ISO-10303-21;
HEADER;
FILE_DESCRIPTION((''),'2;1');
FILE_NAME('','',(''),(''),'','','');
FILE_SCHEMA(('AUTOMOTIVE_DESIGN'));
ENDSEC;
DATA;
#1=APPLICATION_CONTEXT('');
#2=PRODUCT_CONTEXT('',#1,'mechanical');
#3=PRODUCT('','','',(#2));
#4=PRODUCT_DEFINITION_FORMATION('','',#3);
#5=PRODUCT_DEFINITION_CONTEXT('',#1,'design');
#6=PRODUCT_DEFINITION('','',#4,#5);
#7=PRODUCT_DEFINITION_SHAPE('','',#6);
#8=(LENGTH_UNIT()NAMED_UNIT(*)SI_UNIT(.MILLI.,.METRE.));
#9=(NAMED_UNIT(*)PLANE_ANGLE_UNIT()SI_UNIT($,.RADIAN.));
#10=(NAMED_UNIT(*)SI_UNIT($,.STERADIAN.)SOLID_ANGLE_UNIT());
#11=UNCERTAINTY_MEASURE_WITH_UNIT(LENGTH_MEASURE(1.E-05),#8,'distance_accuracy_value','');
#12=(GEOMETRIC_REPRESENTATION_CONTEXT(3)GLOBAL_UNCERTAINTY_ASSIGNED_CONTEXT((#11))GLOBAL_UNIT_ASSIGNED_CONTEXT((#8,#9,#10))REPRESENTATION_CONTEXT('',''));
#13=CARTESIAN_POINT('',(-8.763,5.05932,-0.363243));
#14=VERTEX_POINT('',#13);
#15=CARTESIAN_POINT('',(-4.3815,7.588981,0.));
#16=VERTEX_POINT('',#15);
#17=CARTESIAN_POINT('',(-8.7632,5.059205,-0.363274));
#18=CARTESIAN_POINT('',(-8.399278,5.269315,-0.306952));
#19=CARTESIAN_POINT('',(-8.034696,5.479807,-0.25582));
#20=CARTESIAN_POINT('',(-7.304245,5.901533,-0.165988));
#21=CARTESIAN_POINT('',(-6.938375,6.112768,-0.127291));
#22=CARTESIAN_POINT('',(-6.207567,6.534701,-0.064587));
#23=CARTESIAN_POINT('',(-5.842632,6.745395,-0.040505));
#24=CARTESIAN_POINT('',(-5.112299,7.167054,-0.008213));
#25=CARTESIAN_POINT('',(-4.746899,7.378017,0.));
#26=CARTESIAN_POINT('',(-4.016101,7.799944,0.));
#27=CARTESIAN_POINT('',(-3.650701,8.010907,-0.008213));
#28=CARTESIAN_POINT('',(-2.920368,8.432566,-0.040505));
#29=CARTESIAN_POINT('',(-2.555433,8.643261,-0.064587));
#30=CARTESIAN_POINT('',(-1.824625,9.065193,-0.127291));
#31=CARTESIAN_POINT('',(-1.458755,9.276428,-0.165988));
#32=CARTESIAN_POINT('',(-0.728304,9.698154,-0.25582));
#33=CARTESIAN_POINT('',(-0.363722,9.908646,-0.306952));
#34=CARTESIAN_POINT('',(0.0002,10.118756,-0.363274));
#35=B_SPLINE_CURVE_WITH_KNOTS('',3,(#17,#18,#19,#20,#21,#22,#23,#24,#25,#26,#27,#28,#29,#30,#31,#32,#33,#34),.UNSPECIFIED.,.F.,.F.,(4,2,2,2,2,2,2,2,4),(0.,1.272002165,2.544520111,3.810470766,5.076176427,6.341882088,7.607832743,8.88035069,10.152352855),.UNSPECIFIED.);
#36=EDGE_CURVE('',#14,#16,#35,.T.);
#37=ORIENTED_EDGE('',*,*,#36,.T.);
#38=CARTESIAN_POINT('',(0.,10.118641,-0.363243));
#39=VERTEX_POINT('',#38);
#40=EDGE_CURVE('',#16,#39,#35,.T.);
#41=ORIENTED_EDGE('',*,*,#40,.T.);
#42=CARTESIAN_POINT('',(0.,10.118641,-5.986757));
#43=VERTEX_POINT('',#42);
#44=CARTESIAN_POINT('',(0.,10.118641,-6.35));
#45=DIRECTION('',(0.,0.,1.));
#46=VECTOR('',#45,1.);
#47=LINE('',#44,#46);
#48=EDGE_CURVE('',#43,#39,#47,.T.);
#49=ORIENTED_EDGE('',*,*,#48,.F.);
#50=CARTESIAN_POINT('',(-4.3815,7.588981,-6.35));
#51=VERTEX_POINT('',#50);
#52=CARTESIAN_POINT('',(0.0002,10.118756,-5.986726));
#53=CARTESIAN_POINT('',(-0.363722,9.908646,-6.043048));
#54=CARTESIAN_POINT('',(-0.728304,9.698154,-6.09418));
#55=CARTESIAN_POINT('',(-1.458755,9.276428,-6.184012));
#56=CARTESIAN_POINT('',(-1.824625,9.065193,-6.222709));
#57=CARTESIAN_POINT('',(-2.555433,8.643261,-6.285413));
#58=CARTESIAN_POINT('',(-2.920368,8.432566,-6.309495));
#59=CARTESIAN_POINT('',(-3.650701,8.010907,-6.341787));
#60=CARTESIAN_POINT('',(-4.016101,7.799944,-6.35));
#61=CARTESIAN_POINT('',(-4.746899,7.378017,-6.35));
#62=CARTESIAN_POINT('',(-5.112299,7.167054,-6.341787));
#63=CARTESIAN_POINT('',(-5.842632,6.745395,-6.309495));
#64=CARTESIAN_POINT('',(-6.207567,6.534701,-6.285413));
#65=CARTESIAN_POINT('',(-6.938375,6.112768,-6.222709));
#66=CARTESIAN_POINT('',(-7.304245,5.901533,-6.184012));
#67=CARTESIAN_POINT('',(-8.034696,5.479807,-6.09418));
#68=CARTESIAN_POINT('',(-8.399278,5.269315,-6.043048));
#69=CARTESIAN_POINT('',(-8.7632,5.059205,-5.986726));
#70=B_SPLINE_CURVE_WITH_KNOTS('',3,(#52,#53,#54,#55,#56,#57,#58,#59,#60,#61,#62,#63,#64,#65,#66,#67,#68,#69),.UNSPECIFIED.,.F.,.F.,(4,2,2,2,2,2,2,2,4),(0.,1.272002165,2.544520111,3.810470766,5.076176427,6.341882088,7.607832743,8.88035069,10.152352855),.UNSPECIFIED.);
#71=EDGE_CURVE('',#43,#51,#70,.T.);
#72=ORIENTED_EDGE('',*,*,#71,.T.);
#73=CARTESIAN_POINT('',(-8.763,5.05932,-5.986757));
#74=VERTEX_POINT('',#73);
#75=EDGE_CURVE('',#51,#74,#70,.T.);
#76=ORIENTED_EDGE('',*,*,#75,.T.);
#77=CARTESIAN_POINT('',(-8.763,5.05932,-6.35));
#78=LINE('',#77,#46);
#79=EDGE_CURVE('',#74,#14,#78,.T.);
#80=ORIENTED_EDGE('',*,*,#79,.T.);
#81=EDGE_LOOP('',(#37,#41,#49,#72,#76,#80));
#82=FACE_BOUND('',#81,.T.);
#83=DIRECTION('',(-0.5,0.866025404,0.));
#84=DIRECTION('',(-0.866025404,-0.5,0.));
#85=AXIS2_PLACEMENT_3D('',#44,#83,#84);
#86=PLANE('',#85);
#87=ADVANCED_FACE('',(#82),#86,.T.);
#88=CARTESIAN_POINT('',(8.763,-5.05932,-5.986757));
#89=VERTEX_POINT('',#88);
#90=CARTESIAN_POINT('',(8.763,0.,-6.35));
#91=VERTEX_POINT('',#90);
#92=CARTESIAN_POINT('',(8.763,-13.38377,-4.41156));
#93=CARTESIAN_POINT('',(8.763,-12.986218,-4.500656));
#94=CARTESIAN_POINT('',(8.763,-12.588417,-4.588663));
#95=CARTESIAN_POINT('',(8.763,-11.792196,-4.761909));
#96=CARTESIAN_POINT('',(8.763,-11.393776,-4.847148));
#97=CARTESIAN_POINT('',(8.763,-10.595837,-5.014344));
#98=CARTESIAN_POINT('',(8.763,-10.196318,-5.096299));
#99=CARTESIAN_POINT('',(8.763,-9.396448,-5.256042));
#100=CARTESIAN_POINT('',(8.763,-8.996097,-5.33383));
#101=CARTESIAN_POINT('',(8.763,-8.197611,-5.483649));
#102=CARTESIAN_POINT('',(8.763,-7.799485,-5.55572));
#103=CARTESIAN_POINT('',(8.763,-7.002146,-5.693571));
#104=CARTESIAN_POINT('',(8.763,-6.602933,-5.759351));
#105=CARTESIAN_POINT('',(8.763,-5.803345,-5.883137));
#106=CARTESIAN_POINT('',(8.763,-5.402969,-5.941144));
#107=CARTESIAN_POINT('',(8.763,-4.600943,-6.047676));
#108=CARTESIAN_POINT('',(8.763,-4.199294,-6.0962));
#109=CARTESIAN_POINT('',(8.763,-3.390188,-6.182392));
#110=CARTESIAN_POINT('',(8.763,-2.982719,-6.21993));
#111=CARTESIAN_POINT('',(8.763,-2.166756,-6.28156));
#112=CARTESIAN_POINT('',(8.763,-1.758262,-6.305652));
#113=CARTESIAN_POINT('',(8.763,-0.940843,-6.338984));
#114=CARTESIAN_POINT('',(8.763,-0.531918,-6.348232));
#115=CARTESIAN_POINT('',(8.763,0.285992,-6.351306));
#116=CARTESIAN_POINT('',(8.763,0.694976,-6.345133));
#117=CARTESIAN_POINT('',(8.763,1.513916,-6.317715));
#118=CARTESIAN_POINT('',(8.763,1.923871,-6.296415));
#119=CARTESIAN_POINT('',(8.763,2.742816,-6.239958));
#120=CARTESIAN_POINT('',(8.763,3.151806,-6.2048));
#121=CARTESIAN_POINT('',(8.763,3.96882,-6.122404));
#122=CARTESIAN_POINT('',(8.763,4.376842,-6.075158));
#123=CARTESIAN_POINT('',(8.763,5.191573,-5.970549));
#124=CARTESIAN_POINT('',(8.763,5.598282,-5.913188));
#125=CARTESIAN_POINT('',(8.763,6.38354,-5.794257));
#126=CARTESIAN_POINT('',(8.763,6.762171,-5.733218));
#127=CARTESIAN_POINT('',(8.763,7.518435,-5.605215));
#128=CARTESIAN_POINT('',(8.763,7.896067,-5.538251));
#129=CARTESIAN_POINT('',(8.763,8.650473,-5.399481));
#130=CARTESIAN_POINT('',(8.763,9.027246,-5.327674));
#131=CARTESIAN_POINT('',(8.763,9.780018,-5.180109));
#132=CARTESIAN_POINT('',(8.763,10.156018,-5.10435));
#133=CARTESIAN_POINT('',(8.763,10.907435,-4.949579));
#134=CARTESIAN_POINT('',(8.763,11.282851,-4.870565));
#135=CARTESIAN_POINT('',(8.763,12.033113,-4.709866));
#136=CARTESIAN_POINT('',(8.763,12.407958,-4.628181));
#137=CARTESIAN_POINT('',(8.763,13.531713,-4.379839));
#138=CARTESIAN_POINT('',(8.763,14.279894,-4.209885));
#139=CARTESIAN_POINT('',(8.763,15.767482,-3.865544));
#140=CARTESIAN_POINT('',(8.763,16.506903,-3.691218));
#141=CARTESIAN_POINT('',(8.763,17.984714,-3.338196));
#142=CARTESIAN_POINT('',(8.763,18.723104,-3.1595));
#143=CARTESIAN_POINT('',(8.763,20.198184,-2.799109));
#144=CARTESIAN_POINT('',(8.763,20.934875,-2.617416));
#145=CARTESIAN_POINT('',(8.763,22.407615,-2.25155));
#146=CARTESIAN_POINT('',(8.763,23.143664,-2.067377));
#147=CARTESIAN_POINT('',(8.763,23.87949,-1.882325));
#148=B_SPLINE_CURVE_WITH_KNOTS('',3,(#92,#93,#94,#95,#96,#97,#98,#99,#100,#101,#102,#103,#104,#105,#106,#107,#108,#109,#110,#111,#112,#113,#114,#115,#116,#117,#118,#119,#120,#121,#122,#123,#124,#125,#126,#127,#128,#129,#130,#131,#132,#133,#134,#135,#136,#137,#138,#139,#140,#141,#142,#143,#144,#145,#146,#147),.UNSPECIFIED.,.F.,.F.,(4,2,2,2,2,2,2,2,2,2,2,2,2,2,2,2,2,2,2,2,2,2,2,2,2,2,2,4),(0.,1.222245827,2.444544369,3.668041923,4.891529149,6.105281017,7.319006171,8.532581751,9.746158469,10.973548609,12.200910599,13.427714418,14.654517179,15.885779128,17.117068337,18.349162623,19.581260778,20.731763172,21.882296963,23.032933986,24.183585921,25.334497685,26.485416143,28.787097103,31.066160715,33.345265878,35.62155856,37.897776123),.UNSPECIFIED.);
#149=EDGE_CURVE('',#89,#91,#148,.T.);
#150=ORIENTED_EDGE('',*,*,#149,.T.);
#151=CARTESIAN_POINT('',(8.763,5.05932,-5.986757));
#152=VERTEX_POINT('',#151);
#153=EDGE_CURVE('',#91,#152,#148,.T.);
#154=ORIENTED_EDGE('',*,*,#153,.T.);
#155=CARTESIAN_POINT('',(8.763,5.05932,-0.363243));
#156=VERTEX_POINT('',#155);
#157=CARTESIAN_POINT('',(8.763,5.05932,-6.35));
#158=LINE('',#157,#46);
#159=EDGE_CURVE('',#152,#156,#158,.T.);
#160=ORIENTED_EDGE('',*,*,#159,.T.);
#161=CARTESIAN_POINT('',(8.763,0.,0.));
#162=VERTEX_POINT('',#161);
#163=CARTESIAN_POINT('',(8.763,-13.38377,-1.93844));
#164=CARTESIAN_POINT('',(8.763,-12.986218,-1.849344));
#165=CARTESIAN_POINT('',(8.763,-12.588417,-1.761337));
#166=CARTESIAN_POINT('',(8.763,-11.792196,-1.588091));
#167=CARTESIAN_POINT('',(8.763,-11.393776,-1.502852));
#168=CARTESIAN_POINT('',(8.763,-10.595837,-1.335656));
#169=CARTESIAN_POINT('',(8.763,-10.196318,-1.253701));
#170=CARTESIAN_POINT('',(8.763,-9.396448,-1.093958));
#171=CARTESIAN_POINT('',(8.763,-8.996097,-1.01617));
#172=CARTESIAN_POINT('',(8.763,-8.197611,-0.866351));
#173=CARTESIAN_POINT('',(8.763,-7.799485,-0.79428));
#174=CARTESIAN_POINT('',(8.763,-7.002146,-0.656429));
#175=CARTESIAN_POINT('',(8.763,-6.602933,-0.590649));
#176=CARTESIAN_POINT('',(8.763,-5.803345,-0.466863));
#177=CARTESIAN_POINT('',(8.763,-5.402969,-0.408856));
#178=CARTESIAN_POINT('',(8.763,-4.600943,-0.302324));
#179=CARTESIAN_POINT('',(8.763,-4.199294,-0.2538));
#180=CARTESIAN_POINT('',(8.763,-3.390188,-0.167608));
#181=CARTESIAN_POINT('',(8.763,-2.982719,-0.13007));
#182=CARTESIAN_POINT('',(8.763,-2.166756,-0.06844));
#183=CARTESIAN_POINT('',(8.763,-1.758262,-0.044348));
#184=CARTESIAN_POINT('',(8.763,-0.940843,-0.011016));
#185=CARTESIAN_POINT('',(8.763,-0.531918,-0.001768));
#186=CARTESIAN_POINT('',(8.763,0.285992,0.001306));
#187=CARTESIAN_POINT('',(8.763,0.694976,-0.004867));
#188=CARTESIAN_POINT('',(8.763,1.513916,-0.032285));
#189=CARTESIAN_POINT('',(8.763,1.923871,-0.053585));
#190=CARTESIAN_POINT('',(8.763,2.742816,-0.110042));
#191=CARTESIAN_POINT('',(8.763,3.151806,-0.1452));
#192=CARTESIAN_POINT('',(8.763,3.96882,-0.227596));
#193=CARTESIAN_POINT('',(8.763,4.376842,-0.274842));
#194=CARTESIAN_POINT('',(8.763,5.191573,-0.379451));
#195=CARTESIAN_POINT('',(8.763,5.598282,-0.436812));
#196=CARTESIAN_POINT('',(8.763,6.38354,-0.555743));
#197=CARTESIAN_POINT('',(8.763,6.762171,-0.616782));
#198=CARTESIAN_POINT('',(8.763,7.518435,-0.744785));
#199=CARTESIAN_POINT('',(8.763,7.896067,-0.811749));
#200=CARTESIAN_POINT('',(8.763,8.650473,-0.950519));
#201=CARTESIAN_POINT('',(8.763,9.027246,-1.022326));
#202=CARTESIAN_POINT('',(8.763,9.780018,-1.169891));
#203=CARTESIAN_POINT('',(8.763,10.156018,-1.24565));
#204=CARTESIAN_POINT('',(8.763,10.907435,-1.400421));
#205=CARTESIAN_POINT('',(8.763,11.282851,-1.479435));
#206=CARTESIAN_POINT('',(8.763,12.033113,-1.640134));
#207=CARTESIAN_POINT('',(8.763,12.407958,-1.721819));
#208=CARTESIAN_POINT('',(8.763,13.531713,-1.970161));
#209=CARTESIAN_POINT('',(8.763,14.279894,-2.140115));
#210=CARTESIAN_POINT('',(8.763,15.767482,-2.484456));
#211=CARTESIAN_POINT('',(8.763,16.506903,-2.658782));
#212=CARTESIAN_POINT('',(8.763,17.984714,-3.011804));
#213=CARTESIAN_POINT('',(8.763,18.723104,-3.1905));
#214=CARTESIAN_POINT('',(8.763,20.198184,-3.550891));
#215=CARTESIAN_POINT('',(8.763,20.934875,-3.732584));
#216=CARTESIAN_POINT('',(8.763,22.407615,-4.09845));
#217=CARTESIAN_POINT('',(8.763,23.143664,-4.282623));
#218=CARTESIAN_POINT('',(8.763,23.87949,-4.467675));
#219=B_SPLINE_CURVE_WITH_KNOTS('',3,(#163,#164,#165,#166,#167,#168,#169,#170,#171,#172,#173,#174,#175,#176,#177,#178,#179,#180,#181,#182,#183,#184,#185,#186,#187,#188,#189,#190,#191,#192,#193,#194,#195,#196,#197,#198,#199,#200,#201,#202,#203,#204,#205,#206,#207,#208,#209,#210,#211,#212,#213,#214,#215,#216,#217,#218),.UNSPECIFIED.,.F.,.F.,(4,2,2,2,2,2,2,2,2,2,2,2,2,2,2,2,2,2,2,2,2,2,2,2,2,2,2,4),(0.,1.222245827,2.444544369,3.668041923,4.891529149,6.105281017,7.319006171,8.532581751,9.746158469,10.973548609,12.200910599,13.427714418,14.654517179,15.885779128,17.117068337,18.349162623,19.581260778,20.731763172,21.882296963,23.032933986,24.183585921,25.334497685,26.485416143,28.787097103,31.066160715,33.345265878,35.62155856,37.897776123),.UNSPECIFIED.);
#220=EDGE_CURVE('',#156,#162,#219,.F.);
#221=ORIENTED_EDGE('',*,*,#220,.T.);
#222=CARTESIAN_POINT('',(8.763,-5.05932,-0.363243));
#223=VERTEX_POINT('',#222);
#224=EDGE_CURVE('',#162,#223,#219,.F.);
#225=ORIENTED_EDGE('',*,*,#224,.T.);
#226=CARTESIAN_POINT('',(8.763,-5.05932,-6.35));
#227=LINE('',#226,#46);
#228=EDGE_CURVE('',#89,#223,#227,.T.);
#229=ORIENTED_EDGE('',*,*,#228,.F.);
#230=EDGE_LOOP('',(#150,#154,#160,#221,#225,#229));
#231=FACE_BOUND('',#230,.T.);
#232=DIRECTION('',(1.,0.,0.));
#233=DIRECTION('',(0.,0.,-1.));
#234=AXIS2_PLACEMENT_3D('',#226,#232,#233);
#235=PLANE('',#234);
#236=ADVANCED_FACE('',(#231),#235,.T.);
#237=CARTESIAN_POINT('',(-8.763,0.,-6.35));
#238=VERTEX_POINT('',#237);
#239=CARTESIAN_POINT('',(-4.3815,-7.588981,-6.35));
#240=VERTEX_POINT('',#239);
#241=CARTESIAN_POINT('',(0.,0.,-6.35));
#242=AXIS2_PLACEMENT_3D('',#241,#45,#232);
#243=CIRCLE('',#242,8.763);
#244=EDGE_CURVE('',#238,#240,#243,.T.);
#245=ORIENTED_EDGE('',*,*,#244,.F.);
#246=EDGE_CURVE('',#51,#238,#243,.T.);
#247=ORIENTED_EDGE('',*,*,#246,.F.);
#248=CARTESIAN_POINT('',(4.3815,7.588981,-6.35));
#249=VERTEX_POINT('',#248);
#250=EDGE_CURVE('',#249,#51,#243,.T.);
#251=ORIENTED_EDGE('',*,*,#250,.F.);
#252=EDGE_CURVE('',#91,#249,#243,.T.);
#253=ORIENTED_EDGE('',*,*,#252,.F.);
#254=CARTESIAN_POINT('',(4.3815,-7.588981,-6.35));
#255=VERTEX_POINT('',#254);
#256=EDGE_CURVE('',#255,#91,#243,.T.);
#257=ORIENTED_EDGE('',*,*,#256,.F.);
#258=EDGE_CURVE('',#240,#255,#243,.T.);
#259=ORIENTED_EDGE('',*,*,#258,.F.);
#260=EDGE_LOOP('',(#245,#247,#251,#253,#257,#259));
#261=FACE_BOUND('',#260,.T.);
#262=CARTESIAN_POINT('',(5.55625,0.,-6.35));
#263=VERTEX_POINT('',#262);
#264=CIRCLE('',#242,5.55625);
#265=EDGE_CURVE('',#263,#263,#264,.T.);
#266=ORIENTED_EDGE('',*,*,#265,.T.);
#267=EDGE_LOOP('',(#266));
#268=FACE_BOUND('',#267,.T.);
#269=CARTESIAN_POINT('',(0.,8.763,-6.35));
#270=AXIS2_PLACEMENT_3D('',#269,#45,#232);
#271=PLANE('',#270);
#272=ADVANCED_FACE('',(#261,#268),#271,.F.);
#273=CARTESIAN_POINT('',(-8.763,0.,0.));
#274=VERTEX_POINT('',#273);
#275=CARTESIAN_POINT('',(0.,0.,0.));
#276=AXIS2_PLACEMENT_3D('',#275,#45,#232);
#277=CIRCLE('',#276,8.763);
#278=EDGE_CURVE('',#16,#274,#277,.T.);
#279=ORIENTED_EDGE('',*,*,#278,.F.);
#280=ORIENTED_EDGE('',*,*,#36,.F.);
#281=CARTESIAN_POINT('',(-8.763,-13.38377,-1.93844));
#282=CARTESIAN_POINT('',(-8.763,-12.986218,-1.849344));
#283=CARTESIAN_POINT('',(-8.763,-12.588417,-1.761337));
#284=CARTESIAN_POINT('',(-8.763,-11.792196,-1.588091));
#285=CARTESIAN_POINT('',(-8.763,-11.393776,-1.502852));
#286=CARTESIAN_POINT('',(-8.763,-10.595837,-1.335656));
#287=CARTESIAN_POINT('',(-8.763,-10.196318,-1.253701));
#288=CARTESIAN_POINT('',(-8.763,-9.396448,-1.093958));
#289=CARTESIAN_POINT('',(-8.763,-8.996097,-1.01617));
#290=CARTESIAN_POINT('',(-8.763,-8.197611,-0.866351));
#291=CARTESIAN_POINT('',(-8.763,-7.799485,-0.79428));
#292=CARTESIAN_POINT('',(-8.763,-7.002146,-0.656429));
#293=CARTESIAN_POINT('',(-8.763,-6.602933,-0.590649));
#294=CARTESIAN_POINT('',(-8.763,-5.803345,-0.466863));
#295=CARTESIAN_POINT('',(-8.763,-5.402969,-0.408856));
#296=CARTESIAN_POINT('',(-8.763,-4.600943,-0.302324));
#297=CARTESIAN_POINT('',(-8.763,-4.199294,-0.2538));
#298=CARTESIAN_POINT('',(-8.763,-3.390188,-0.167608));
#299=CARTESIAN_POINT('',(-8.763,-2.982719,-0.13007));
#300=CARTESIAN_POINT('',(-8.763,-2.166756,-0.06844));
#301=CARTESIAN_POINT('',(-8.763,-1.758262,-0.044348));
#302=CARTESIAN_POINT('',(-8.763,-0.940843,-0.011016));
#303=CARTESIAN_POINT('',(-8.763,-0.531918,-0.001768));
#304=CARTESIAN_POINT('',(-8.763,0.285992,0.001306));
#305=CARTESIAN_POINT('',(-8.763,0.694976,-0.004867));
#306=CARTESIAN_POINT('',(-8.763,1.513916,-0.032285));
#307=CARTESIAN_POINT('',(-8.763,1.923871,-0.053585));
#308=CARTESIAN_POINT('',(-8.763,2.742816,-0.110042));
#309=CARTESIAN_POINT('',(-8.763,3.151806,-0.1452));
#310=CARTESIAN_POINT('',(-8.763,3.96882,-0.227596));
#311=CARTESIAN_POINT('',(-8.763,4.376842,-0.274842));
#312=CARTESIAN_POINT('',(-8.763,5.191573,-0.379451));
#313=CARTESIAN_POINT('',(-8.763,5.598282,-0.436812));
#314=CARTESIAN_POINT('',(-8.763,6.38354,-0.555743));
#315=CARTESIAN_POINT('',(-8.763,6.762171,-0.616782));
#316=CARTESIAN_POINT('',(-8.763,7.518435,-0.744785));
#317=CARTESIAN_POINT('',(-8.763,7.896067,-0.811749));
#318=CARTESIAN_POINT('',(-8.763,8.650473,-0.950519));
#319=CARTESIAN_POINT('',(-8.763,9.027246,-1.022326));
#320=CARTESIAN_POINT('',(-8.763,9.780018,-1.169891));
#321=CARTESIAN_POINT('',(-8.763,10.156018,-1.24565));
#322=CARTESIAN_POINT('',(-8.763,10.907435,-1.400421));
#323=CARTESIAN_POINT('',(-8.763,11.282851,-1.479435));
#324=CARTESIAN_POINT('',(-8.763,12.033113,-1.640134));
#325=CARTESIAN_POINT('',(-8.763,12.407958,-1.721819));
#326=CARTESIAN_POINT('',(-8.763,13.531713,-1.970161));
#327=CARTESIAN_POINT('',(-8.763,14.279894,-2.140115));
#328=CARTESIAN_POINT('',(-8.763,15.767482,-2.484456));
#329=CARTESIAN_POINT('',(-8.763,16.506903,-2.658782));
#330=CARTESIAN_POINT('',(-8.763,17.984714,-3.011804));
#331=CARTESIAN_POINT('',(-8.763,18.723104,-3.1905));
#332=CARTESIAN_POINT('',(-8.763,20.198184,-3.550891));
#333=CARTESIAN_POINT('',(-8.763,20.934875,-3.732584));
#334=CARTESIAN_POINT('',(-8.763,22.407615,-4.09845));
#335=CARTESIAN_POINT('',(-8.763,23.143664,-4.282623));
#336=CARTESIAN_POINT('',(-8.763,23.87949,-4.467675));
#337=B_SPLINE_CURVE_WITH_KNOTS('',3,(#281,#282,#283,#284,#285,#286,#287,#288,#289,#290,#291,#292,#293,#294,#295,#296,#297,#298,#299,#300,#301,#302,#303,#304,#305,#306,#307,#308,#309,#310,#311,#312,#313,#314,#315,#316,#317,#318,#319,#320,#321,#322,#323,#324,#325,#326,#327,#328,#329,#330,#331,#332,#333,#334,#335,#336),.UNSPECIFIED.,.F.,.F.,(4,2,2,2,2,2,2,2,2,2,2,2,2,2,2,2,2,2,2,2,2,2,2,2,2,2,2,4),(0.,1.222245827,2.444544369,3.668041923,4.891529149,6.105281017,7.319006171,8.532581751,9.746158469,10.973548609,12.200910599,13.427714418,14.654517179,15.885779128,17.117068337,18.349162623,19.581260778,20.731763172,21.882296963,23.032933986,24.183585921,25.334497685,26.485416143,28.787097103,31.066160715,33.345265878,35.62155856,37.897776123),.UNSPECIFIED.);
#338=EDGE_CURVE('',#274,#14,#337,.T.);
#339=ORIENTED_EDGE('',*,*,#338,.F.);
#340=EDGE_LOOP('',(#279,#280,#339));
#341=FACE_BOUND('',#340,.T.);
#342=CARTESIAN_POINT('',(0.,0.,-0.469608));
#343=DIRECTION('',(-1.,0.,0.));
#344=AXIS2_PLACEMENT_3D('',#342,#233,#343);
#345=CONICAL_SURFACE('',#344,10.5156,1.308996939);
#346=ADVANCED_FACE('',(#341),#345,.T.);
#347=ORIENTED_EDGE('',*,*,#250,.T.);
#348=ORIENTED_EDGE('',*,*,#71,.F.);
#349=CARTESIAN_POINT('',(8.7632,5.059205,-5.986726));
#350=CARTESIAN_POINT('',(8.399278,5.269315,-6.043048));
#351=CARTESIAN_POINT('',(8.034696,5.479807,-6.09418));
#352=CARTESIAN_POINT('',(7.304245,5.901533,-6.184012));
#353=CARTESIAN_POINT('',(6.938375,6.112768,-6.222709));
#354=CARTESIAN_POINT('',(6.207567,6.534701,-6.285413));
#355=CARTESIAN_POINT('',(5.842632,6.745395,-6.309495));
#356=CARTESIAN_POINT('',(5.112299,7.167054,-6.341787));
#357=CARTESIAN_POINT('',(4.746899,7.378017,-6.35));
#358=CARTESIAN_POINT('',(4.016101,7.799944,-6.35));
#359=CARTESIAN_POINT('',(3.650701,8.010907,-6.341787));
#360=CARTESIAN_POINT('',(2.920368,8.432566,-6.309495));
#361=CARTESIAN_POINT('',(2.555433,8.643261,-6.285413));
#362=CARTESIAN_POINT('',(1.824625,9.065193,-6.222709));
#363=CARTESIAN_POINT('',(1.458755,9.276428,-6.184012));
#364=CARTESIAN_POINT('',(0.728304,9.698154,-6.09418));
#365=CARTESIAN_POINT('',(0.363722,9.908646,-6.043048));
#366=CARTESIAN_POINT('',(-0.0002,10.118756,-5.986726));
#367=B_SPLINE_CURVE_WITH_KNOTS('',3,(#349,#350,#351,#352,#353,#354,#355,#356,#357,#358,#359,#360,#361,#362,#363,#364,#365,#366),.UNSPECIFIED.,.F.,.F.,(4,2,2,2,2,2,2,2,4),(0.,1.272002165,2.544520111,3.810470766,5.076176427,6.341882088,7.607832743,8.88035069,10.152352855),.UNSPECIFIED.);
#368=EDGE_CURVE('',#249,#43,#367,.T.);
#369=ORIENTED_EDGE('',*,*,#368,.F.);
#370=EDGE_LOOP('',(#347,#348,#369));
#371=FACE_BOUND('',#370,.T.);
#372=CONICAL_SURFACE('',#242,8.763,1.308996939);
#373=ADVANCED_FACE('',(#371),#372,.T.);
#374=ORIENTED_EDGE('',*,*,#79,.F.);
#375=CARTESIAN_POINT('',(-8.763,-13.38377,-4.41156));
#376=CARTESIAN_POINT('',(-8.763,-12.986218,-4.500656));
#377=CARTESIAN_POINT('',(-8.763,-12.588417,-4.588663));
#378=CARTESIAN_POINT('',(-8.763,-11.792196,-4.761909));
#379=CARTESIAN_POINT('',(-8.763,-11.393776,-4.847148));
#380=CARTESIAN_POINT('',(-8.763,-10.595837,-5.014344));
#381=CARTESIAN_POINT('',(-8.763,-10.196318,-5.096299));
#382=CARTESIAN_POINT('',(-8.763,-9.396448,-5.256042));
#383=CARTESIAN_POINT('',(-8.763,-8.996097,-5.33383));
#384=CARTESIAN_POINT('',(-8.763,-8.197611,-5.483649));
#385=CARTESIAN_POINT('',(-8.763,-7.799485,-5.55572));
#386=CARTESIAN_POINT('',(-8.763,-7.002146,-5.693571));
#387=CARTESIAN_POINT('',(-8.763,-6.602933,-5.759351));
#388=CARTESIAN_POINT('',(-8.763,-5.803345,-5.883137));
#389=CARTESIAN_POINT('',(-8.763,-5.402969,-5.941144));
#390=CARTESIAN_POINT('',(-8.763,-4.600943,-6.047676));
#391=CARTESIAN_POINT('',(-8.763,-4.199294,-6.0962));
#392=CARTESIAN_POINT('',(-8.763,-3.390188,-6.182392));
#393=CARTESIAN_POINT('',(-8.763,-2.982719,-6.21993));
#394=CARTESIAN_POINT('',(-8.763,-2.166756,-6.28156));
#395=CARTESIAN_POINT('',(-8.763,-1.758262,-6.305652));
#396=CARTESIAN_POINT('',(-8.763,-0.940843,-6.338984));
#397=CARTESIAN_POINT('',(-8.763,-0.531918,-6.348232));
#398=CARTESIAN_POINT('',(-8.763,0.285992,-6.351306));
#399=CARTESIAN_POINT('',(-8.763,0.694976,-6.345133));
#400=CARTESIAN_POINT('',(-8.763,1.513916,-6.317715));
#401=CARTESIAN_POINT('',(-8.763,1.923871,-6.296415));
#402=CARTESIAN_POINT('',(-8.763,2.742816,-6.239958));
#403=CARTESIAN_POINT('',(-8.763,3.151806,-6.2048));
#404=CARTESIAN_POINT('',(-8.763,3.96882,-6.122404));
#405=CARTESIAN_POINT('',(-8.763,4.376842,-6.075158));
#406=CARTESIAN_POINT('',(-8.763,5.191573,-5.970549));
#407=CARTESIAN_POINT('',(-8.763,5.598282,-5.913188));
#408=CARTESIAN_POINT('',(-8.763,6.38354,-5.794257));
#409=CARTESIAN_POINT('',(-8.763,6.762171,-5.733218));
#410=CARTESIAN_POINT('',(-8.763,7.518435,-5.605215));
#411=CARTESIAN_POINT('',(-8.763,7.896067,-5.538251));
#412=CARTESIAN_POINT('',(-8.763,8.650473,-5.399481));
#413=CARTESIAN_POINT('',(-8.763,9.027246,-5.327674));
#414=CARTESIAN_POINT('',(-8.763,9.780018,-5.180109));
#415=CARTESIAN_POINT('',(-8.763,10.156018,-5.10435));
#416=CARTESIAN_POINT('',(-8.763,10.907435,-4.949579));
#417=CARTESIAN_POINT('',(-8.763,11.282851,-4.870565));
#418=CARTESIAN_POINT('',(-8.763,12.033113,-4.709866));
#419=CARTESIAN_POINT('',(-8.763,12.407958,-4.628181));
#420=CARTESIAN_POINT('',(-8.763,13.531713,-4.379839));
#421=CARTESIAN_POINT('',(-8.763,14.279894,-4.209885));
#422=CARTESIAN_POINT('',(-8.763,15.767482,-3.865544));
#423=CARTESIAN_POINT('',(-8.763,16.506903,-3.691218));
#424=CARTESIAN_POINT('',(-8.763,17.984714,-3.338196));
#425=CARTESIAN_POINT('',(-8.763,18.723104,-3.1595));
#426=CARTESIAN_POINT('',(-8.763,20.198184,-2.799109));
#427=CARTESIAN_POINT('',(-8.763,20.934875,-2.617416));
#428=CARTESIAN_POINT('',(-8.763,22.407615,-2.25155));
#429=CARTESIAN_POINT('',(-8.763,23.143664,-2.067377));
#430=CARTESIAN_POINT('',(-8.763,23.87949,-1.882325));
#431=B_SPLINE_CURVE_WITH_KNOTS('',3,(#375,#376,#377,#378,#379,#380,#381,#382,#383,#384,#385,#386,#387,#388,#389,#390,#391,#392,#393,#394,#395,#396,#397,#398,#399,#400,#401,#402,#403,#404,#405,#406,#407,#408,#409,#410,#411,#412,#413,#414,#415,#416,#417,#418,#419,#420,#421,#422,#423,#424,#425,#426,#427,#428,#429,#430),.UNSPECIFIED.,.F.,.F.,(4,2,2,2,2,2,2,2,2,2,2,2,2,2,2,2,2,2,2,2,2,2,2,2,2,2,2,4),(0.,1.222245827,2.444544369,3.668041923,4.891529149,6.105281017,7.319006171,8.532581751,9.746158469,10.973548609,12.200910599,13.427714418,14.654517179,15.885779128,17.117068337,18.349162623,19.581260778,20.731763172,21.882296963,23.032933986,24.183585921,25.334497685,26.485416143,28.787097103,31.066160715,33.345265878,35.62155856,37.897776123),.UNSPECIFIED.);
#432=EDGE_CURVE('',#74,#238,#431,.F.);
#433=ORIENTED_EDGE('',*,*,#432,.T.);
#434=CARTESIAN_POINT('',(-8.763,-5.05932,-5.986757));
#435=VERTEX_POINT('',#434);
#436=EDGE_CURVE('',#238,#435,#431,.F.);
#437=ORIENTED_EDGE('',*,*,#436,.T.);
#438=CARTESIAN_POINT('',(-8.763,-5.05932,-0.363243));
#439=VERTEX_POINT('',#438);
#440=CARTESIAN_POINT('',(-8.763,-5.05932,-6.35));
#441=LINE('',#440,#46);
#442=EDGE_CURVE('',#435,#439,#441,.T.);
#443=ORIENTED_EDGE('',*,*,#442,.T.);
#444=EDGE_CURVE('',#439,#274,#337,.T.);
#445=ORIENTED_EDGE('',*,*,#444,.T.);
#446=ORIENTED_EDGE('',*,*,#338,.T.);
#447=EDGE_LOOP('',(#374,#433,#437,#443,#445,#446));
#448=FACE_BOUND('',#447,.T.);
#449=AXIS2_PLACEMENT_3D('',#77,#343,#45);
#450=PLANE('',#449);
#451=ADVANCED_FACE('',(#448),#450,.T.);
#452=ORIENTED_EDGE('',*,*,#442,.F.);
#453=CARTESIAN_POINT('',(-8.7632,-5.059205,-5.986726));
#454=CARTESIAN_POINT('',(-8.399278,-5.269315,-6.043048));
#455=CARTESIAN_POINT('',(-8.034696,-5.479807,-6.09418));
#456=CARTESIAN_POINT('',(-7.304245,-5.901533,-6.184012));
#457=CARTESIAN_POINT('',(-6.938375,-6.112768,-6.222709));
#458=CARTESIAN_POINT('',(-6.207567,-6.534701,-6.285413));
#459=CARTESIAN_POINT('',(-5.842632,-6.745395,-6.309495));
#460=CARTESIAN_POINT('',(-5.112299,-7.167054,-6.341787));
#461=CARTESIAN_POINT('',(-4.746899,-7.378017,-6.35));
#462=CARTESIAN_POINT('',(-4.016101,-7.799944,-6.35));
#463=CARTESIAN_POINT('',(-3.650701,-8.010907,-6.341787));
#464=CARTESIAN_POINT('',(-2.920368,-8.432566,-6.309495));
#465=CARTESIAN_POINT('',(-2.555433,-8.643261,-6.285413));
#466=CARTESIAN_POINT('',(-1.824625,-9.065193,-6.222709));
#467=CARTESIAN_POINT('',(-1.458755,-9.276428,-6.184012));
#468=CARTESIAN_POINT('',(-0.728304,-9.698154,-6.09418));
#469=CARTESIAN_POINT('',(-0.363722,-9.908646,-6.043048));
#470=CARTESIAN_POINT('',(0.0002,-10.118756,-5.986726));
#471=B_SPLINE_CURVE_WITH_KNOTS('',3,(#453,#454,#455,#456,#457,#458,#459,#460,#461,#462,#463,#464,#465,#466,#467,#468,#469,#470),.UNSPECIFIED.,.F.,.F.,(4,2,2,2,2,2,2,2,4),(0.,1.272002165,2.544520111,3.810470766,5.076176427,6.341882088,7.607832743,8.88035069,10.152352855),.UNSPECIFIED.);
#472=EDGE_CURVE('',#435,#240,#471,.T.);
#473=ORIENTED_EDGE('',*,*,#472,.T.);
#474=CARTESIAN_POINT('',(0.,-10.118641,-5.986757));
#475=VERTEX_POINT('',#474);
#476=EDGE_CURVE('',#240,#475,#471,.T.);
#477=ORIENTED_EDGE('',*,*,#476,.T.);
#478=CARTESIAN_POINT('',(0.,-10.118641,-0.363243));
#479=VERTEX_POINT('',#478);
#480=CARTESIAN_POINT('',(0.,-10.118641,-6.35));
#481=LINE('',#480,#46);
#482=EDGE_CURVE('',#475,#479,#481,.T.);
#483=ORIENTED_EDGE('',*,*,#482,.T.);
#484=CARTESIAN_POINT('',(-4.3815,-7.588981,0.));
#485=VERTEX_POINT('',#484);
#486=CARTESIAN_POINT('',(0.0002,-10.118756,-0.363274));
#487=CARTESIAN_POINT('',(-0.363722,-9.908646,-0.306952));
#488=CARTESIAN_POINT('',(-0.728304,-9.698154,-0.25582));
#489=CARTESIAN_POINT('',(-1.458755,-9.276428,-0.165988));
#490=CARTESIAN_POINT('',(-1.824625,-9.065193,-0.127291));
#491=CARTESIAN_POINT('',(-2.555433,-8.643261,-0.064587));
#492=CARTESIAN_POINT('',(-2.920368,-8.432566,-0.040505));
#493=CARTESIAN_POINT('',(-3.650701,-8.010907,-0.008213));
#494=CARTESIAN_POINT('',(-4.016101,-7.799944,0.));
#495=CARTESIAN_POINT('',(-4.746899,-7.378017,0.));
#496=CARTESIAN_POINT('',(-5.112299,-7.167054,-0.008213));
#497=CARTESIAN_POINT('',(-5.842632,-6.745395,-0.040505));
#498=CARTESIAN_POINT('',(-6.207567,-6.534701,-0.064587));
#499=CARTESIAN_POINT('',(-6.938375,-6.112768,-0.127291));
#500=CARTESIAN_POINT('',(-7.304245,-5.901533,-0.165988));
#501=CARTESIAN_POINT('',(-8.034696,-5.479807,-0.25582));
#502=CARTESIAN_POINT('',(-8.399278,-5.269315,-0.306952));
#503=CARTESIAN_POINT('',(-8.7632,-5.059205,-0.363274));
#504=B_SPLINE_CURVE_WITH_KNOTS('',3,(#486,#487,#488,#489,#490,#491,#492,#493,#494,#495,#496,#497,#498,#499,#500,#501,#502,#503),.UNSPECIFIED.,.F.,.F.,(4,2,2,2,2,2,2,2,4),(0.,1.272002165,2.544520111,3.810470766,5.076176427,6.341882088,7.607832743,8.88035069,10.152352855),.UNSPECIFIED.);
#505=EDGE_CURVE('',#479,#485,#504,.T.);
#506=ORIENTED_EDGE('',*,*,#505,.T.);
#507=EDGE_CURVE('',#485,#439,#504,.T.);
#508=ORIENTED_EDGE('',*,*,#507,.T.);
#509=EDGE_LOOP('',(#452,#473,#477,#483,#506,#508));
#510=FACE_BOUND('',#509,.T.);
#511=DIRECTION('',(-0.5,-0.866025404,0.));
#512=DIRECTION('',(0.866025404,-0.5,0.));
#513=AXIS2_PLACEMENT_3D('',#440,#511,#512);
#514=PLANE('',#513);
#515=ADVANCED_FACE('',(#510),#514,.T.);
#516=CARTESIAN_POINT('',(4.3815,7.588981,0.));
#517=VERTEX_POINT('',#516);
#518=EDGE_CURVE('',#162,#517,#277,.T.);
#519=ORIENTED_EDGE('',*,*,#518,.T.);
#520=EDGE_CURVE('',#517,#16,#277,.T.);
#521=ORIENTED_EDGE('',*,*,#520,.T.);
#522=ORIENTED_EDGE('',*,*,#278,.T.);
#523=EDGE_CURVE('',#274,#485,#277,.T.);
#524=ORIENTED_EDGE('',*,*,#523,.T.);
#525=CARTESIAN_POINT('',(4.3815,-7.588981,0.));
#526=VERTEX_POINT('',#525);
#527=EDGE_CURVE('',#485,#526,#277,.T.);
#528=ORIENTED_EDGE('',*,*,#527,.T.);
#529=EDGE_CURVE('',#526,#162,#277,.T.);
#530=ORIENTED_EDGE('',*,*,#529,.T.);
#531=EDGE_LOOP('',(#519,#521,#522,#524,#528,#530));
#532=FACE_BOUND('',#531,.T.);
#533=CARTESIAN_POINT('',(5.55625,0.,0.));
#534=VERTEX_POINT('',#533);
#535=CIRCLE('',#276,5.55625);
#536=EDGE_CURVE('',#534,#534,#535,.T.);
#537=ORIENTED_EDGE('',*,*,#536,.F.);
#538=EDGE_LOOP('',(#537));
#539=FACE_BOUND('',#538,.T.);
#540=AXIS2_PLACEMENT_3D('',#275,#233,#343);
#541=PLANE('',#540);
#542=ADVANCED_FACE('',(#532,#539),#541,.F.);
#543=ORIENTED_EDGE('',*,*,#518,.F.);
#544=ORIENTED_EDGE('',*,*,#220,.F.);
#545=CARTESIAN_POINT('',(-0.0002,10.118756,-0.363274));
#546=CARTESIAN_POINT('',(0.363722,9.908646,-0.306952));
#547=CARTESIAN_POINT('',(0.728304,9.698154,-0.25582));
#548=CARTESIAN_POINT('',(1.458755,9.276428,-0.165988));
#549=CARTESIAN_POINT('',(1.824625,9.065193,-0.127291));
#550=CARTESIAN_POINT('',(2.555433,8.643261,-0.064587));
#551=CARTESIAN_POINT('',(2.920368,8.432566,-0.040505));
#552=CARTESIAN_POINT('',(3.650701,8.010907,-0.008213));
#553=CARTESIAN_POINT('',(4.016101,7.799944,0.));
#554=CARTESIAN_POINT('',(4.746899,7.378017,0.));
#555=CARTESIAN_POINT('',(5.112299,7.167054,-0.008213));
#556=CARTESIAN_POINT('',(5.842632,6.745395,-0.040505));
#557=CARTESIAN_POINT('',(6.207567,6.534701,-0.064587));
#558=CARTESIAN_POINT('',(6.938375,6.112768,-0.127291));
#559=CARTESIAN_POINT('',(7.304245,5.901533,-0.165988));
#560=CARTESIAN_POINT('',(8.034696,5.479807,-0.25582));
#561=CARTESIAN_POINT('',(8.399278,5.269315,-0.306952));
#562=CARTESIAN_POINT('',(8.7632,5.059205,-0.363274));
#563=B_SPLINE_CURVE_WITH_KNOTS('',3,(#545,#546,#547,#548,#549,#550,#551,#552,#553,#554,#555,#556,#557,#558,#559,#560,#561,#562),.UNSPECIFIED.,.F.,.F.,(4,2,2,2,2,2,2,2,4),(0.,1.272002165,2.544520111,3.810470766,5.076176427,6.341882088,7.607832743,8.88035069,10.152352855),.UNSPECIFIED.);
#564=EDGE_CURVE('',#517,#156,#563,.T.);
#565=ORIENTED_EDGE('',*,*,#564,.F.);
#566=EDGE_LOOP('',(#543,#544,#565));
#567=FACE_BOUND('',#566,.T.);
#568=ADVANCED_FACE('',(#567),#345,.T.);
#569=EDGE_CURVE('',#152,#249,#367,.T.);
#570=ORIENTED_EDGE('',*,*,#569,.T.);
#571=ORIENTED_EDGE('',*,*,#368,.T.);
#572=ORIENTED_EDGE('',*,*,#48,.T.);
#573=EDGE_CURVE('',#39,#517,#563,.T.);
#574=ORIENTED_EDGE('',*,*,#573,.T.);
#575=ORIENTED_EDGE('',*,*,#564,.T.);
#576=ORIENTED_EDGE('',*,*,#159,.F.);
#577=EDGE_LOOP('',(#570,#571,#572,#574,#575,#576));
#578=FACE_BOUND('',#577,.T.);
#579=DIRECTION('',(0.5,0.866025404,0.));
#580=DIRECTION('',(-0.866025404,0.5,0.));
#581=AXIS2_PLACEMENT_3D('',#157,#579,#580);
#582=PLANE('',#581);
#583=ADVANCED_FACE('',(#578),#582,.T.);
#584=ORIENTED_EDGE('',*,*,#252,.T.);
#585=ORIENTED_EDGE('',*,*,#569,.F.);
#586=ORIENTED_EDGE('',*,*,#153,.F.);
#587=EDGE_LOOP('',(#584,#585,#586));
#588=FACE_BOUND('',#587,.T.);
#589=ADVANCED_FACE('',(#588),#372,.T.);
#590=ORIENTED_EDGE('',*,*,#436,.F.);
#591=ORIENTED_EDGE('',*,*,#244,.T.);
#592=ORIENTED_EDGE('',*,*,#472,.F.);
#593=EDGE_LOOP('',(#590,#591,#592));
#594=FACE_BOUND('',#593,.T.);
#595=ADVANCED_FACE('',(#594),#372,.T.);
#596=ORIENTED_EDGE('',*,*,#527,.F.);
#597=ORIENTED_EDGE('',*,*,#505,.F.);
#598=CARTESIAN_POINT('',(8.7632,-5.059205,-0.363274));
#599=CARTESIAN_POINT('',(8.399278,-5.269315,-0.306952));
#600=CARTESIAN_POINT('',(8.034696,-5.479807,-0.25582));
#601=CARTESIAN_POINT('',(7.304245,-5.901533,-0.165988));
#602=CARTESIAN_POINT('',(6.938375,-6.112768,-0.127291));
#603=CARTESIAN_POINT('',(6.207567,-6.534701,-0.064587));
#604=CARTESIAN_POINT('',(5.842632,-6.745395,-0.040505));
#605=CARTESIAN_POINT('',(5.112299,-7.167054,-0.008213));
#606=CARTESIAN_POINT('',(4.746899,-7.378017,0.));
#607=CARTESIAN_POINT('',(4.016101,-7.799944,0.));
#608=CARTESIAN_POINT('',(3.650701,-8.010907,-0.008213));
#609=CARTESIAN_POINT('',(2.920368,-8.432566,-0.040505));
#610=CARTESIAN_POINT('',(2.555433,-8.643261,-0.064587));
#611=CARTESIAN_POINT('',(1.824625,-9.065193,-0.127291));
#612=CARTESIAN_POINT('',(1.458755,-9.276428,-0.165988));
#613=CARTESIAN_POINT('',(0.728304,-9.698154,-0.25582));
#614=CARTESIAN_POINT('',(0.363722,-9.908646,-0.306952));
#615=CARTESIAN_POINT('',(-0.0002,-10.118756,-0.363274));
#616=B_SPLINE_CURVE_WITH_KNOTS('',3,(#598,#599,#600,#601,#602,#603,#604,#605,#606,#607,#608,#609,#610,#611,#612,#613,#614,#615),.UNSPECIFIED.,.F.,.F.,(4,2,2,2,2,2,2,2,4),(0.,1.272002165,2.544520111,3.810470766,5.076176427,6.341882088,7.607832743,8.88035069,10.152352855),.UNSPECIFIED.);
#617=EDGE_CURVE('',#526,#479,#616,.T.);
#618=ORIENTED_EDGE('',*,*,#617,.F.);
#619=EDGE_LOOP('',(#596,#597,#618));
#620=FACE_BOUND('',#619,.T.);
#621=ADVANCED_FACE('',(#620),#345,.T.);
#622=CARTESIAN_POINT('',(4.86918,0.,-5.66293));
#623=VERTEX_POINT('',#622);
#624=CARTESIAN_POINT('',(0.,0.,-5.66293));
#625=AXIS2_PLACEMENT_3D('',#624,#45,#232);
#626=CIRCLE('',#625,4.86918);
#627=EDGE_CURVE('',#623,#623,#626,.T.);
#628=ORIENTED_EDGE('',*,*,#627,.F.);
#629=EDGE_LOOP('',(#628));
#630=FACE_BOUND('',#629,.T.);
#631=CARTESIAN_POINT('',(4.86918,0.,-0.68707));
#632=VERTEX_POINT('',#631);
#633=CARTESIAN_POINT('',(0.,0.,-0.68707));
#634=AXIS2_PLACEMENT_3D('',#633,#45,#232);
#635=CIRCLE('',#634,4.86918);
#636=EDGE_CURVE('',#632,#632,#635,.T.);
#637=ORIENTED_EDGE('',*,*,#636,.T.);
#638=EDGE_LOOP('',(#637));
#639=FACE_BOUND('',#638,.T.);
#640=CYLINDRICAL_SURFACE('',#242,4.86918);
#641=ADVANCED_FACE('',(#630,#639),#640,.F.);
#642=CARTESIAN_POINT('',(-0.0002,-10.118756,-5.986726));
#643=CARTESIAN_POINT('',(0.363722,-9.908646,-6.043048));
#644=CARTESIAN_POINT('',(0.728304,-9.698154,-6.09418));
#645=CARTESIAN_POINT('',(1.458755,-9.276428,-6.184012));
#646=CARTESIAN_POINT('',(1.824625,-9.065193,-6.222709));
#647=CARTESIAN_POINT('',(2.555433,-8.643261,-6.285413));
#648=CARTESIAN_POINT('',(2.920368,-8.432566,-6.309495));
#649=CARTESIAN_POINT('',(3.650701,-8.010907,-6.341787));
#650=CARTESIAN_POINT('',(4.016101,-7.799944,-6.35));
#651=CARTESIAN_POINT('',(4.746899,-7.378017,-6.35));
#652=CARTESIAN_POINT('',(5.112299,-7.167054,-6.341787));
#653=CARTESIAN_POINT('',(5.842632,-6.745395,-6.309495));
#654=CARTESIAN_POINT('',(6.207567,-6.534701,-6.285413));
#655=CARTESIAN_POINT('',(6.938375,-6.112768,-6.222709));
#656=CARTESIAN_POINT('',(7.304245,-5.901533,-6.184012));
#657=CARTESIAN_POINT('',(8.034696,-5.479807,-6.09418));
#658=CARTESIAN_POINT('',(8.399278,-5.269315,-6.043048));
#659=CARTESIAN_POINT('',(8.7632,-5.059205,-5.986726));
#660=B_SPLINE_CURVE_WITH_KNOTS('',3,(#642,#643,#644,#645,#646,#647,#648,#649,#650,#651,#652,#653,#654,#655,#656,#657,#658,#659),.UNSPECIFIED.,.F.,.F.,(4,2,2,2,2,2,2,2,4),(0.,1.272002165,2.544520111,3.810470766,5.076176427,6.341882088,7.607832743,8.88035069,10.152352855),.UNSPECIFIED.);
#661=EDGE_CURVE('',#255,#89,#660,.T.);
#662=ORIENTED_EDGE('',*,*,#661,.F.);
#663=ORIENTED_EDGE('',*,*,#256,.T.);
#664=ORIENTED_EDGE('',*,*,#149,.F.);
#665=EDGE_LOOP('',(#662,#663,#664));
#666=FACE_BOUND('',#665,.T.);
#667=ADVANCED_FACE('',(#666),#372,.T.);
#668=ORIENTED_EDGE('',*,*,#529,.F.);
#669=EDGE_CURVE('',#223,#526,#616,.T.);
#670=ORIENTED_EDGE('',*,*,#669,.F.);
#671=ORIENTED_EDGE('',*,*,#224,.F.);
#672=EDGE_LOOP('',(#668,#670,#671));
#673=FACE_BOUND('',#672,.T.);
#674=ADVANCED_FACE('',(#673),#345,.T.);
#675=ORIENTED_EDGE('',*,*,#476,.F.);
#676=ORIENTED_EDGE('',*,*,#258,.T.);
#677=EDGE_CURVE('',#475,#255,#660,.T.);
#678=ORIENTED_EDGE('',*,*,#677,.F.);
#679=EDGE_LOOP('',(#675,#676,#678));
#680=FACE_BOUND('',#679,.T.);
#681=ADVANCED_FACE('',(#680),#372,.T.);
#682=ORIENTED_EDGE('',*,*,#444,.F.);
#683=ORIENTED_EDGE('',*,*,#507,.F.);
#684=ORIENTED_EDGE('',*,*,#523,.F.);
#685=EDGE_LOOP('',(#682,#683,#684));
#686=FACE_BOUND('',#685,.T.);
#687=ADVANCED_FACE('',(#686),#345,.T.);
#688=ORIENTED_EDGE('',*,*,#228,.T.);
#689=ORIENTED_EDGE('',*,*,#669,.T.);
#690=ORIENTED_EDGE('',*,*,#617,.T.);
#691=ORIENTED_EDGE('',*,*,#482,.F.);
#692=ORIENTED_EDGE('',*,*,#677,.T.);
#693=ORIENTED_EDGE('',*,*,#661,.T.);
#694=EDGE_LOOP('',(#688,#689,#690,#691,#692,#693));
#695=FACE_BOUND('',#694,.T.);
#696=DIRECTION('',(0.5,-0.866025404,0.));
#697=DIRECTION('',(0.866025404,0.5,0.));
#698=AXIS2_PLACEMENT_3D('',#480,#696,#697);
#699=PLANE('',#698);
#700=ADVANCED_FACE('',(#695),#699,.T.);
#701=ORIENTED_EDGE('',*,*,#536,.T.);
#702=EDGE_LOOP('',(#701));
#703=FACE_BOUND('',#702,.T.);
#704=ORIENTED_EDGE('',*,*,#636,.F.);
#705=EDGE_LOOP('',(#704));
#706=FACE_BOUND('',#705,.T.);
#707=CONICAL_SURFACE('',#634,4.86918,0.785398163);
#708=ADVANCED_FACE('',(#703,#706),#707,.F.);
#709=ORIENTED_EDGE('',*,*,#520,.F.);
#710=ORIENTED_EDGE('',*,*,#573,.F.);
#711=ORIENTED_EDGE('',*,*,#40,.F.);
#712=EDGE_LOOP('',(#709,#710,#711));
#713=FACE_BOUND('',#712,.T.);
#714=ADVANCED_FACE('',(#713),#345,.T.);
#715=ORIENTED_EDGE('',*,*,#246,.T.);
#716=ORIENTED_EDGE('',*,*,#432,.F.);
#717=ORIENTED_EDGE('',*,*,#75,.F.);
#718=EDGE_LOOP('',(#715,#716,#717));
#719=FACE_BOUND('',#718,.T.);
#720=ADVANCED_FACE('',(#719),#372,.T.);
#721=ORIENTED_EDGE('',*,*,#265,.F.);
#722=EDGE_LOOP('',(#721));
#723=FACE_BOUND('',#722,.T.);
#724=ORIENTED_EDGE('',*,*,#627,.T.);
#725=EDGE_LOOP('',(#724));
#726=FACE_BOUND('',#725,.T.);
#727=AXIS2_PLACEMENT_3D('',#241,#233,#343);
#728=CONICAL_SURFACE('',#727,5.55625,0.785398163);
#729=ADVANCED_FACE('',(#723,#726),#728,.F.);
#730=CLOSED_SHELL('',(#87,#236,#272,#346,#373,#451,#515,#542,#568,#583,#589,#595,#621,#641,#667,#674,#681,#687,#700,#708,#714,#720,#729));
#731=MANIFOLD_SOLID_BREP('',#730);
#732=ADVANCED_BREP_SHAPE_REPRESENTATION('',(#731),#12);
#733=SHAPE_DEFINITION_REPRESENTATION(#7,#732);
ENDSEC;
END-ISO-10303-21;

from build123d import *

# Parameters (mm, degrees)
SKETCH2_W          = 35.052
SKETCH2_H          = 35.052
CUT_EXTRUDE1_DEPTH = 6.35


with BuildPart() as part:
    # Sketch1 → Revolve1 (revolve)
    with BuildSketch(Plane(origin=(0, 0, 0), x_dir=(0, 0, -1), z_dir=(1, 0, 0))):
        Polygon((0, 0), (0, 8.763), (0.469607755, 10.5156), (5.880392245, 10.5156), (6.35, 8.763), (6.35, 0), align=None)
    revolve(axis=Axis((0, 0, -6.35), (0, 0, 1)))

    # Sketch2 → Cut-Extrude1 (cut)
    with BuildSketch(Plane.XY):
        Rectangle(SKETCH2_W, SKETCH2_H)
        Polygon((-8.763, 5.059320409), (-8.763, -5.059320409), (0, -10.118640818), (8.763, -5.059320409), (8.763, 5.059320409), (0, 10.118640818), align=None, mode=Mode.SUBTRACT)
    extrude(amount=-CUT_EXTRUDE1_DEPTH, mode=Mode.SUBTRACT)

    # Sketch3 → Cut-Revolve1 (revolve, cut)
    with BuildSketch(Plane(origin=(0, 0, 0), x_dir=(0, 0, -1), z_dir=(1, 0, 0))):
        Polygon((0, 0), (0, 5.55625), (0.68707, 4.86918), (5.66293, 4.86918), (6.35, 5.55625), (6.35, 0), align=None)
    revolve(axis=Axis((0, 0, -6.35), (0, 0, 1)), mode=Mode.SUBTRACT)


solid = part.part
